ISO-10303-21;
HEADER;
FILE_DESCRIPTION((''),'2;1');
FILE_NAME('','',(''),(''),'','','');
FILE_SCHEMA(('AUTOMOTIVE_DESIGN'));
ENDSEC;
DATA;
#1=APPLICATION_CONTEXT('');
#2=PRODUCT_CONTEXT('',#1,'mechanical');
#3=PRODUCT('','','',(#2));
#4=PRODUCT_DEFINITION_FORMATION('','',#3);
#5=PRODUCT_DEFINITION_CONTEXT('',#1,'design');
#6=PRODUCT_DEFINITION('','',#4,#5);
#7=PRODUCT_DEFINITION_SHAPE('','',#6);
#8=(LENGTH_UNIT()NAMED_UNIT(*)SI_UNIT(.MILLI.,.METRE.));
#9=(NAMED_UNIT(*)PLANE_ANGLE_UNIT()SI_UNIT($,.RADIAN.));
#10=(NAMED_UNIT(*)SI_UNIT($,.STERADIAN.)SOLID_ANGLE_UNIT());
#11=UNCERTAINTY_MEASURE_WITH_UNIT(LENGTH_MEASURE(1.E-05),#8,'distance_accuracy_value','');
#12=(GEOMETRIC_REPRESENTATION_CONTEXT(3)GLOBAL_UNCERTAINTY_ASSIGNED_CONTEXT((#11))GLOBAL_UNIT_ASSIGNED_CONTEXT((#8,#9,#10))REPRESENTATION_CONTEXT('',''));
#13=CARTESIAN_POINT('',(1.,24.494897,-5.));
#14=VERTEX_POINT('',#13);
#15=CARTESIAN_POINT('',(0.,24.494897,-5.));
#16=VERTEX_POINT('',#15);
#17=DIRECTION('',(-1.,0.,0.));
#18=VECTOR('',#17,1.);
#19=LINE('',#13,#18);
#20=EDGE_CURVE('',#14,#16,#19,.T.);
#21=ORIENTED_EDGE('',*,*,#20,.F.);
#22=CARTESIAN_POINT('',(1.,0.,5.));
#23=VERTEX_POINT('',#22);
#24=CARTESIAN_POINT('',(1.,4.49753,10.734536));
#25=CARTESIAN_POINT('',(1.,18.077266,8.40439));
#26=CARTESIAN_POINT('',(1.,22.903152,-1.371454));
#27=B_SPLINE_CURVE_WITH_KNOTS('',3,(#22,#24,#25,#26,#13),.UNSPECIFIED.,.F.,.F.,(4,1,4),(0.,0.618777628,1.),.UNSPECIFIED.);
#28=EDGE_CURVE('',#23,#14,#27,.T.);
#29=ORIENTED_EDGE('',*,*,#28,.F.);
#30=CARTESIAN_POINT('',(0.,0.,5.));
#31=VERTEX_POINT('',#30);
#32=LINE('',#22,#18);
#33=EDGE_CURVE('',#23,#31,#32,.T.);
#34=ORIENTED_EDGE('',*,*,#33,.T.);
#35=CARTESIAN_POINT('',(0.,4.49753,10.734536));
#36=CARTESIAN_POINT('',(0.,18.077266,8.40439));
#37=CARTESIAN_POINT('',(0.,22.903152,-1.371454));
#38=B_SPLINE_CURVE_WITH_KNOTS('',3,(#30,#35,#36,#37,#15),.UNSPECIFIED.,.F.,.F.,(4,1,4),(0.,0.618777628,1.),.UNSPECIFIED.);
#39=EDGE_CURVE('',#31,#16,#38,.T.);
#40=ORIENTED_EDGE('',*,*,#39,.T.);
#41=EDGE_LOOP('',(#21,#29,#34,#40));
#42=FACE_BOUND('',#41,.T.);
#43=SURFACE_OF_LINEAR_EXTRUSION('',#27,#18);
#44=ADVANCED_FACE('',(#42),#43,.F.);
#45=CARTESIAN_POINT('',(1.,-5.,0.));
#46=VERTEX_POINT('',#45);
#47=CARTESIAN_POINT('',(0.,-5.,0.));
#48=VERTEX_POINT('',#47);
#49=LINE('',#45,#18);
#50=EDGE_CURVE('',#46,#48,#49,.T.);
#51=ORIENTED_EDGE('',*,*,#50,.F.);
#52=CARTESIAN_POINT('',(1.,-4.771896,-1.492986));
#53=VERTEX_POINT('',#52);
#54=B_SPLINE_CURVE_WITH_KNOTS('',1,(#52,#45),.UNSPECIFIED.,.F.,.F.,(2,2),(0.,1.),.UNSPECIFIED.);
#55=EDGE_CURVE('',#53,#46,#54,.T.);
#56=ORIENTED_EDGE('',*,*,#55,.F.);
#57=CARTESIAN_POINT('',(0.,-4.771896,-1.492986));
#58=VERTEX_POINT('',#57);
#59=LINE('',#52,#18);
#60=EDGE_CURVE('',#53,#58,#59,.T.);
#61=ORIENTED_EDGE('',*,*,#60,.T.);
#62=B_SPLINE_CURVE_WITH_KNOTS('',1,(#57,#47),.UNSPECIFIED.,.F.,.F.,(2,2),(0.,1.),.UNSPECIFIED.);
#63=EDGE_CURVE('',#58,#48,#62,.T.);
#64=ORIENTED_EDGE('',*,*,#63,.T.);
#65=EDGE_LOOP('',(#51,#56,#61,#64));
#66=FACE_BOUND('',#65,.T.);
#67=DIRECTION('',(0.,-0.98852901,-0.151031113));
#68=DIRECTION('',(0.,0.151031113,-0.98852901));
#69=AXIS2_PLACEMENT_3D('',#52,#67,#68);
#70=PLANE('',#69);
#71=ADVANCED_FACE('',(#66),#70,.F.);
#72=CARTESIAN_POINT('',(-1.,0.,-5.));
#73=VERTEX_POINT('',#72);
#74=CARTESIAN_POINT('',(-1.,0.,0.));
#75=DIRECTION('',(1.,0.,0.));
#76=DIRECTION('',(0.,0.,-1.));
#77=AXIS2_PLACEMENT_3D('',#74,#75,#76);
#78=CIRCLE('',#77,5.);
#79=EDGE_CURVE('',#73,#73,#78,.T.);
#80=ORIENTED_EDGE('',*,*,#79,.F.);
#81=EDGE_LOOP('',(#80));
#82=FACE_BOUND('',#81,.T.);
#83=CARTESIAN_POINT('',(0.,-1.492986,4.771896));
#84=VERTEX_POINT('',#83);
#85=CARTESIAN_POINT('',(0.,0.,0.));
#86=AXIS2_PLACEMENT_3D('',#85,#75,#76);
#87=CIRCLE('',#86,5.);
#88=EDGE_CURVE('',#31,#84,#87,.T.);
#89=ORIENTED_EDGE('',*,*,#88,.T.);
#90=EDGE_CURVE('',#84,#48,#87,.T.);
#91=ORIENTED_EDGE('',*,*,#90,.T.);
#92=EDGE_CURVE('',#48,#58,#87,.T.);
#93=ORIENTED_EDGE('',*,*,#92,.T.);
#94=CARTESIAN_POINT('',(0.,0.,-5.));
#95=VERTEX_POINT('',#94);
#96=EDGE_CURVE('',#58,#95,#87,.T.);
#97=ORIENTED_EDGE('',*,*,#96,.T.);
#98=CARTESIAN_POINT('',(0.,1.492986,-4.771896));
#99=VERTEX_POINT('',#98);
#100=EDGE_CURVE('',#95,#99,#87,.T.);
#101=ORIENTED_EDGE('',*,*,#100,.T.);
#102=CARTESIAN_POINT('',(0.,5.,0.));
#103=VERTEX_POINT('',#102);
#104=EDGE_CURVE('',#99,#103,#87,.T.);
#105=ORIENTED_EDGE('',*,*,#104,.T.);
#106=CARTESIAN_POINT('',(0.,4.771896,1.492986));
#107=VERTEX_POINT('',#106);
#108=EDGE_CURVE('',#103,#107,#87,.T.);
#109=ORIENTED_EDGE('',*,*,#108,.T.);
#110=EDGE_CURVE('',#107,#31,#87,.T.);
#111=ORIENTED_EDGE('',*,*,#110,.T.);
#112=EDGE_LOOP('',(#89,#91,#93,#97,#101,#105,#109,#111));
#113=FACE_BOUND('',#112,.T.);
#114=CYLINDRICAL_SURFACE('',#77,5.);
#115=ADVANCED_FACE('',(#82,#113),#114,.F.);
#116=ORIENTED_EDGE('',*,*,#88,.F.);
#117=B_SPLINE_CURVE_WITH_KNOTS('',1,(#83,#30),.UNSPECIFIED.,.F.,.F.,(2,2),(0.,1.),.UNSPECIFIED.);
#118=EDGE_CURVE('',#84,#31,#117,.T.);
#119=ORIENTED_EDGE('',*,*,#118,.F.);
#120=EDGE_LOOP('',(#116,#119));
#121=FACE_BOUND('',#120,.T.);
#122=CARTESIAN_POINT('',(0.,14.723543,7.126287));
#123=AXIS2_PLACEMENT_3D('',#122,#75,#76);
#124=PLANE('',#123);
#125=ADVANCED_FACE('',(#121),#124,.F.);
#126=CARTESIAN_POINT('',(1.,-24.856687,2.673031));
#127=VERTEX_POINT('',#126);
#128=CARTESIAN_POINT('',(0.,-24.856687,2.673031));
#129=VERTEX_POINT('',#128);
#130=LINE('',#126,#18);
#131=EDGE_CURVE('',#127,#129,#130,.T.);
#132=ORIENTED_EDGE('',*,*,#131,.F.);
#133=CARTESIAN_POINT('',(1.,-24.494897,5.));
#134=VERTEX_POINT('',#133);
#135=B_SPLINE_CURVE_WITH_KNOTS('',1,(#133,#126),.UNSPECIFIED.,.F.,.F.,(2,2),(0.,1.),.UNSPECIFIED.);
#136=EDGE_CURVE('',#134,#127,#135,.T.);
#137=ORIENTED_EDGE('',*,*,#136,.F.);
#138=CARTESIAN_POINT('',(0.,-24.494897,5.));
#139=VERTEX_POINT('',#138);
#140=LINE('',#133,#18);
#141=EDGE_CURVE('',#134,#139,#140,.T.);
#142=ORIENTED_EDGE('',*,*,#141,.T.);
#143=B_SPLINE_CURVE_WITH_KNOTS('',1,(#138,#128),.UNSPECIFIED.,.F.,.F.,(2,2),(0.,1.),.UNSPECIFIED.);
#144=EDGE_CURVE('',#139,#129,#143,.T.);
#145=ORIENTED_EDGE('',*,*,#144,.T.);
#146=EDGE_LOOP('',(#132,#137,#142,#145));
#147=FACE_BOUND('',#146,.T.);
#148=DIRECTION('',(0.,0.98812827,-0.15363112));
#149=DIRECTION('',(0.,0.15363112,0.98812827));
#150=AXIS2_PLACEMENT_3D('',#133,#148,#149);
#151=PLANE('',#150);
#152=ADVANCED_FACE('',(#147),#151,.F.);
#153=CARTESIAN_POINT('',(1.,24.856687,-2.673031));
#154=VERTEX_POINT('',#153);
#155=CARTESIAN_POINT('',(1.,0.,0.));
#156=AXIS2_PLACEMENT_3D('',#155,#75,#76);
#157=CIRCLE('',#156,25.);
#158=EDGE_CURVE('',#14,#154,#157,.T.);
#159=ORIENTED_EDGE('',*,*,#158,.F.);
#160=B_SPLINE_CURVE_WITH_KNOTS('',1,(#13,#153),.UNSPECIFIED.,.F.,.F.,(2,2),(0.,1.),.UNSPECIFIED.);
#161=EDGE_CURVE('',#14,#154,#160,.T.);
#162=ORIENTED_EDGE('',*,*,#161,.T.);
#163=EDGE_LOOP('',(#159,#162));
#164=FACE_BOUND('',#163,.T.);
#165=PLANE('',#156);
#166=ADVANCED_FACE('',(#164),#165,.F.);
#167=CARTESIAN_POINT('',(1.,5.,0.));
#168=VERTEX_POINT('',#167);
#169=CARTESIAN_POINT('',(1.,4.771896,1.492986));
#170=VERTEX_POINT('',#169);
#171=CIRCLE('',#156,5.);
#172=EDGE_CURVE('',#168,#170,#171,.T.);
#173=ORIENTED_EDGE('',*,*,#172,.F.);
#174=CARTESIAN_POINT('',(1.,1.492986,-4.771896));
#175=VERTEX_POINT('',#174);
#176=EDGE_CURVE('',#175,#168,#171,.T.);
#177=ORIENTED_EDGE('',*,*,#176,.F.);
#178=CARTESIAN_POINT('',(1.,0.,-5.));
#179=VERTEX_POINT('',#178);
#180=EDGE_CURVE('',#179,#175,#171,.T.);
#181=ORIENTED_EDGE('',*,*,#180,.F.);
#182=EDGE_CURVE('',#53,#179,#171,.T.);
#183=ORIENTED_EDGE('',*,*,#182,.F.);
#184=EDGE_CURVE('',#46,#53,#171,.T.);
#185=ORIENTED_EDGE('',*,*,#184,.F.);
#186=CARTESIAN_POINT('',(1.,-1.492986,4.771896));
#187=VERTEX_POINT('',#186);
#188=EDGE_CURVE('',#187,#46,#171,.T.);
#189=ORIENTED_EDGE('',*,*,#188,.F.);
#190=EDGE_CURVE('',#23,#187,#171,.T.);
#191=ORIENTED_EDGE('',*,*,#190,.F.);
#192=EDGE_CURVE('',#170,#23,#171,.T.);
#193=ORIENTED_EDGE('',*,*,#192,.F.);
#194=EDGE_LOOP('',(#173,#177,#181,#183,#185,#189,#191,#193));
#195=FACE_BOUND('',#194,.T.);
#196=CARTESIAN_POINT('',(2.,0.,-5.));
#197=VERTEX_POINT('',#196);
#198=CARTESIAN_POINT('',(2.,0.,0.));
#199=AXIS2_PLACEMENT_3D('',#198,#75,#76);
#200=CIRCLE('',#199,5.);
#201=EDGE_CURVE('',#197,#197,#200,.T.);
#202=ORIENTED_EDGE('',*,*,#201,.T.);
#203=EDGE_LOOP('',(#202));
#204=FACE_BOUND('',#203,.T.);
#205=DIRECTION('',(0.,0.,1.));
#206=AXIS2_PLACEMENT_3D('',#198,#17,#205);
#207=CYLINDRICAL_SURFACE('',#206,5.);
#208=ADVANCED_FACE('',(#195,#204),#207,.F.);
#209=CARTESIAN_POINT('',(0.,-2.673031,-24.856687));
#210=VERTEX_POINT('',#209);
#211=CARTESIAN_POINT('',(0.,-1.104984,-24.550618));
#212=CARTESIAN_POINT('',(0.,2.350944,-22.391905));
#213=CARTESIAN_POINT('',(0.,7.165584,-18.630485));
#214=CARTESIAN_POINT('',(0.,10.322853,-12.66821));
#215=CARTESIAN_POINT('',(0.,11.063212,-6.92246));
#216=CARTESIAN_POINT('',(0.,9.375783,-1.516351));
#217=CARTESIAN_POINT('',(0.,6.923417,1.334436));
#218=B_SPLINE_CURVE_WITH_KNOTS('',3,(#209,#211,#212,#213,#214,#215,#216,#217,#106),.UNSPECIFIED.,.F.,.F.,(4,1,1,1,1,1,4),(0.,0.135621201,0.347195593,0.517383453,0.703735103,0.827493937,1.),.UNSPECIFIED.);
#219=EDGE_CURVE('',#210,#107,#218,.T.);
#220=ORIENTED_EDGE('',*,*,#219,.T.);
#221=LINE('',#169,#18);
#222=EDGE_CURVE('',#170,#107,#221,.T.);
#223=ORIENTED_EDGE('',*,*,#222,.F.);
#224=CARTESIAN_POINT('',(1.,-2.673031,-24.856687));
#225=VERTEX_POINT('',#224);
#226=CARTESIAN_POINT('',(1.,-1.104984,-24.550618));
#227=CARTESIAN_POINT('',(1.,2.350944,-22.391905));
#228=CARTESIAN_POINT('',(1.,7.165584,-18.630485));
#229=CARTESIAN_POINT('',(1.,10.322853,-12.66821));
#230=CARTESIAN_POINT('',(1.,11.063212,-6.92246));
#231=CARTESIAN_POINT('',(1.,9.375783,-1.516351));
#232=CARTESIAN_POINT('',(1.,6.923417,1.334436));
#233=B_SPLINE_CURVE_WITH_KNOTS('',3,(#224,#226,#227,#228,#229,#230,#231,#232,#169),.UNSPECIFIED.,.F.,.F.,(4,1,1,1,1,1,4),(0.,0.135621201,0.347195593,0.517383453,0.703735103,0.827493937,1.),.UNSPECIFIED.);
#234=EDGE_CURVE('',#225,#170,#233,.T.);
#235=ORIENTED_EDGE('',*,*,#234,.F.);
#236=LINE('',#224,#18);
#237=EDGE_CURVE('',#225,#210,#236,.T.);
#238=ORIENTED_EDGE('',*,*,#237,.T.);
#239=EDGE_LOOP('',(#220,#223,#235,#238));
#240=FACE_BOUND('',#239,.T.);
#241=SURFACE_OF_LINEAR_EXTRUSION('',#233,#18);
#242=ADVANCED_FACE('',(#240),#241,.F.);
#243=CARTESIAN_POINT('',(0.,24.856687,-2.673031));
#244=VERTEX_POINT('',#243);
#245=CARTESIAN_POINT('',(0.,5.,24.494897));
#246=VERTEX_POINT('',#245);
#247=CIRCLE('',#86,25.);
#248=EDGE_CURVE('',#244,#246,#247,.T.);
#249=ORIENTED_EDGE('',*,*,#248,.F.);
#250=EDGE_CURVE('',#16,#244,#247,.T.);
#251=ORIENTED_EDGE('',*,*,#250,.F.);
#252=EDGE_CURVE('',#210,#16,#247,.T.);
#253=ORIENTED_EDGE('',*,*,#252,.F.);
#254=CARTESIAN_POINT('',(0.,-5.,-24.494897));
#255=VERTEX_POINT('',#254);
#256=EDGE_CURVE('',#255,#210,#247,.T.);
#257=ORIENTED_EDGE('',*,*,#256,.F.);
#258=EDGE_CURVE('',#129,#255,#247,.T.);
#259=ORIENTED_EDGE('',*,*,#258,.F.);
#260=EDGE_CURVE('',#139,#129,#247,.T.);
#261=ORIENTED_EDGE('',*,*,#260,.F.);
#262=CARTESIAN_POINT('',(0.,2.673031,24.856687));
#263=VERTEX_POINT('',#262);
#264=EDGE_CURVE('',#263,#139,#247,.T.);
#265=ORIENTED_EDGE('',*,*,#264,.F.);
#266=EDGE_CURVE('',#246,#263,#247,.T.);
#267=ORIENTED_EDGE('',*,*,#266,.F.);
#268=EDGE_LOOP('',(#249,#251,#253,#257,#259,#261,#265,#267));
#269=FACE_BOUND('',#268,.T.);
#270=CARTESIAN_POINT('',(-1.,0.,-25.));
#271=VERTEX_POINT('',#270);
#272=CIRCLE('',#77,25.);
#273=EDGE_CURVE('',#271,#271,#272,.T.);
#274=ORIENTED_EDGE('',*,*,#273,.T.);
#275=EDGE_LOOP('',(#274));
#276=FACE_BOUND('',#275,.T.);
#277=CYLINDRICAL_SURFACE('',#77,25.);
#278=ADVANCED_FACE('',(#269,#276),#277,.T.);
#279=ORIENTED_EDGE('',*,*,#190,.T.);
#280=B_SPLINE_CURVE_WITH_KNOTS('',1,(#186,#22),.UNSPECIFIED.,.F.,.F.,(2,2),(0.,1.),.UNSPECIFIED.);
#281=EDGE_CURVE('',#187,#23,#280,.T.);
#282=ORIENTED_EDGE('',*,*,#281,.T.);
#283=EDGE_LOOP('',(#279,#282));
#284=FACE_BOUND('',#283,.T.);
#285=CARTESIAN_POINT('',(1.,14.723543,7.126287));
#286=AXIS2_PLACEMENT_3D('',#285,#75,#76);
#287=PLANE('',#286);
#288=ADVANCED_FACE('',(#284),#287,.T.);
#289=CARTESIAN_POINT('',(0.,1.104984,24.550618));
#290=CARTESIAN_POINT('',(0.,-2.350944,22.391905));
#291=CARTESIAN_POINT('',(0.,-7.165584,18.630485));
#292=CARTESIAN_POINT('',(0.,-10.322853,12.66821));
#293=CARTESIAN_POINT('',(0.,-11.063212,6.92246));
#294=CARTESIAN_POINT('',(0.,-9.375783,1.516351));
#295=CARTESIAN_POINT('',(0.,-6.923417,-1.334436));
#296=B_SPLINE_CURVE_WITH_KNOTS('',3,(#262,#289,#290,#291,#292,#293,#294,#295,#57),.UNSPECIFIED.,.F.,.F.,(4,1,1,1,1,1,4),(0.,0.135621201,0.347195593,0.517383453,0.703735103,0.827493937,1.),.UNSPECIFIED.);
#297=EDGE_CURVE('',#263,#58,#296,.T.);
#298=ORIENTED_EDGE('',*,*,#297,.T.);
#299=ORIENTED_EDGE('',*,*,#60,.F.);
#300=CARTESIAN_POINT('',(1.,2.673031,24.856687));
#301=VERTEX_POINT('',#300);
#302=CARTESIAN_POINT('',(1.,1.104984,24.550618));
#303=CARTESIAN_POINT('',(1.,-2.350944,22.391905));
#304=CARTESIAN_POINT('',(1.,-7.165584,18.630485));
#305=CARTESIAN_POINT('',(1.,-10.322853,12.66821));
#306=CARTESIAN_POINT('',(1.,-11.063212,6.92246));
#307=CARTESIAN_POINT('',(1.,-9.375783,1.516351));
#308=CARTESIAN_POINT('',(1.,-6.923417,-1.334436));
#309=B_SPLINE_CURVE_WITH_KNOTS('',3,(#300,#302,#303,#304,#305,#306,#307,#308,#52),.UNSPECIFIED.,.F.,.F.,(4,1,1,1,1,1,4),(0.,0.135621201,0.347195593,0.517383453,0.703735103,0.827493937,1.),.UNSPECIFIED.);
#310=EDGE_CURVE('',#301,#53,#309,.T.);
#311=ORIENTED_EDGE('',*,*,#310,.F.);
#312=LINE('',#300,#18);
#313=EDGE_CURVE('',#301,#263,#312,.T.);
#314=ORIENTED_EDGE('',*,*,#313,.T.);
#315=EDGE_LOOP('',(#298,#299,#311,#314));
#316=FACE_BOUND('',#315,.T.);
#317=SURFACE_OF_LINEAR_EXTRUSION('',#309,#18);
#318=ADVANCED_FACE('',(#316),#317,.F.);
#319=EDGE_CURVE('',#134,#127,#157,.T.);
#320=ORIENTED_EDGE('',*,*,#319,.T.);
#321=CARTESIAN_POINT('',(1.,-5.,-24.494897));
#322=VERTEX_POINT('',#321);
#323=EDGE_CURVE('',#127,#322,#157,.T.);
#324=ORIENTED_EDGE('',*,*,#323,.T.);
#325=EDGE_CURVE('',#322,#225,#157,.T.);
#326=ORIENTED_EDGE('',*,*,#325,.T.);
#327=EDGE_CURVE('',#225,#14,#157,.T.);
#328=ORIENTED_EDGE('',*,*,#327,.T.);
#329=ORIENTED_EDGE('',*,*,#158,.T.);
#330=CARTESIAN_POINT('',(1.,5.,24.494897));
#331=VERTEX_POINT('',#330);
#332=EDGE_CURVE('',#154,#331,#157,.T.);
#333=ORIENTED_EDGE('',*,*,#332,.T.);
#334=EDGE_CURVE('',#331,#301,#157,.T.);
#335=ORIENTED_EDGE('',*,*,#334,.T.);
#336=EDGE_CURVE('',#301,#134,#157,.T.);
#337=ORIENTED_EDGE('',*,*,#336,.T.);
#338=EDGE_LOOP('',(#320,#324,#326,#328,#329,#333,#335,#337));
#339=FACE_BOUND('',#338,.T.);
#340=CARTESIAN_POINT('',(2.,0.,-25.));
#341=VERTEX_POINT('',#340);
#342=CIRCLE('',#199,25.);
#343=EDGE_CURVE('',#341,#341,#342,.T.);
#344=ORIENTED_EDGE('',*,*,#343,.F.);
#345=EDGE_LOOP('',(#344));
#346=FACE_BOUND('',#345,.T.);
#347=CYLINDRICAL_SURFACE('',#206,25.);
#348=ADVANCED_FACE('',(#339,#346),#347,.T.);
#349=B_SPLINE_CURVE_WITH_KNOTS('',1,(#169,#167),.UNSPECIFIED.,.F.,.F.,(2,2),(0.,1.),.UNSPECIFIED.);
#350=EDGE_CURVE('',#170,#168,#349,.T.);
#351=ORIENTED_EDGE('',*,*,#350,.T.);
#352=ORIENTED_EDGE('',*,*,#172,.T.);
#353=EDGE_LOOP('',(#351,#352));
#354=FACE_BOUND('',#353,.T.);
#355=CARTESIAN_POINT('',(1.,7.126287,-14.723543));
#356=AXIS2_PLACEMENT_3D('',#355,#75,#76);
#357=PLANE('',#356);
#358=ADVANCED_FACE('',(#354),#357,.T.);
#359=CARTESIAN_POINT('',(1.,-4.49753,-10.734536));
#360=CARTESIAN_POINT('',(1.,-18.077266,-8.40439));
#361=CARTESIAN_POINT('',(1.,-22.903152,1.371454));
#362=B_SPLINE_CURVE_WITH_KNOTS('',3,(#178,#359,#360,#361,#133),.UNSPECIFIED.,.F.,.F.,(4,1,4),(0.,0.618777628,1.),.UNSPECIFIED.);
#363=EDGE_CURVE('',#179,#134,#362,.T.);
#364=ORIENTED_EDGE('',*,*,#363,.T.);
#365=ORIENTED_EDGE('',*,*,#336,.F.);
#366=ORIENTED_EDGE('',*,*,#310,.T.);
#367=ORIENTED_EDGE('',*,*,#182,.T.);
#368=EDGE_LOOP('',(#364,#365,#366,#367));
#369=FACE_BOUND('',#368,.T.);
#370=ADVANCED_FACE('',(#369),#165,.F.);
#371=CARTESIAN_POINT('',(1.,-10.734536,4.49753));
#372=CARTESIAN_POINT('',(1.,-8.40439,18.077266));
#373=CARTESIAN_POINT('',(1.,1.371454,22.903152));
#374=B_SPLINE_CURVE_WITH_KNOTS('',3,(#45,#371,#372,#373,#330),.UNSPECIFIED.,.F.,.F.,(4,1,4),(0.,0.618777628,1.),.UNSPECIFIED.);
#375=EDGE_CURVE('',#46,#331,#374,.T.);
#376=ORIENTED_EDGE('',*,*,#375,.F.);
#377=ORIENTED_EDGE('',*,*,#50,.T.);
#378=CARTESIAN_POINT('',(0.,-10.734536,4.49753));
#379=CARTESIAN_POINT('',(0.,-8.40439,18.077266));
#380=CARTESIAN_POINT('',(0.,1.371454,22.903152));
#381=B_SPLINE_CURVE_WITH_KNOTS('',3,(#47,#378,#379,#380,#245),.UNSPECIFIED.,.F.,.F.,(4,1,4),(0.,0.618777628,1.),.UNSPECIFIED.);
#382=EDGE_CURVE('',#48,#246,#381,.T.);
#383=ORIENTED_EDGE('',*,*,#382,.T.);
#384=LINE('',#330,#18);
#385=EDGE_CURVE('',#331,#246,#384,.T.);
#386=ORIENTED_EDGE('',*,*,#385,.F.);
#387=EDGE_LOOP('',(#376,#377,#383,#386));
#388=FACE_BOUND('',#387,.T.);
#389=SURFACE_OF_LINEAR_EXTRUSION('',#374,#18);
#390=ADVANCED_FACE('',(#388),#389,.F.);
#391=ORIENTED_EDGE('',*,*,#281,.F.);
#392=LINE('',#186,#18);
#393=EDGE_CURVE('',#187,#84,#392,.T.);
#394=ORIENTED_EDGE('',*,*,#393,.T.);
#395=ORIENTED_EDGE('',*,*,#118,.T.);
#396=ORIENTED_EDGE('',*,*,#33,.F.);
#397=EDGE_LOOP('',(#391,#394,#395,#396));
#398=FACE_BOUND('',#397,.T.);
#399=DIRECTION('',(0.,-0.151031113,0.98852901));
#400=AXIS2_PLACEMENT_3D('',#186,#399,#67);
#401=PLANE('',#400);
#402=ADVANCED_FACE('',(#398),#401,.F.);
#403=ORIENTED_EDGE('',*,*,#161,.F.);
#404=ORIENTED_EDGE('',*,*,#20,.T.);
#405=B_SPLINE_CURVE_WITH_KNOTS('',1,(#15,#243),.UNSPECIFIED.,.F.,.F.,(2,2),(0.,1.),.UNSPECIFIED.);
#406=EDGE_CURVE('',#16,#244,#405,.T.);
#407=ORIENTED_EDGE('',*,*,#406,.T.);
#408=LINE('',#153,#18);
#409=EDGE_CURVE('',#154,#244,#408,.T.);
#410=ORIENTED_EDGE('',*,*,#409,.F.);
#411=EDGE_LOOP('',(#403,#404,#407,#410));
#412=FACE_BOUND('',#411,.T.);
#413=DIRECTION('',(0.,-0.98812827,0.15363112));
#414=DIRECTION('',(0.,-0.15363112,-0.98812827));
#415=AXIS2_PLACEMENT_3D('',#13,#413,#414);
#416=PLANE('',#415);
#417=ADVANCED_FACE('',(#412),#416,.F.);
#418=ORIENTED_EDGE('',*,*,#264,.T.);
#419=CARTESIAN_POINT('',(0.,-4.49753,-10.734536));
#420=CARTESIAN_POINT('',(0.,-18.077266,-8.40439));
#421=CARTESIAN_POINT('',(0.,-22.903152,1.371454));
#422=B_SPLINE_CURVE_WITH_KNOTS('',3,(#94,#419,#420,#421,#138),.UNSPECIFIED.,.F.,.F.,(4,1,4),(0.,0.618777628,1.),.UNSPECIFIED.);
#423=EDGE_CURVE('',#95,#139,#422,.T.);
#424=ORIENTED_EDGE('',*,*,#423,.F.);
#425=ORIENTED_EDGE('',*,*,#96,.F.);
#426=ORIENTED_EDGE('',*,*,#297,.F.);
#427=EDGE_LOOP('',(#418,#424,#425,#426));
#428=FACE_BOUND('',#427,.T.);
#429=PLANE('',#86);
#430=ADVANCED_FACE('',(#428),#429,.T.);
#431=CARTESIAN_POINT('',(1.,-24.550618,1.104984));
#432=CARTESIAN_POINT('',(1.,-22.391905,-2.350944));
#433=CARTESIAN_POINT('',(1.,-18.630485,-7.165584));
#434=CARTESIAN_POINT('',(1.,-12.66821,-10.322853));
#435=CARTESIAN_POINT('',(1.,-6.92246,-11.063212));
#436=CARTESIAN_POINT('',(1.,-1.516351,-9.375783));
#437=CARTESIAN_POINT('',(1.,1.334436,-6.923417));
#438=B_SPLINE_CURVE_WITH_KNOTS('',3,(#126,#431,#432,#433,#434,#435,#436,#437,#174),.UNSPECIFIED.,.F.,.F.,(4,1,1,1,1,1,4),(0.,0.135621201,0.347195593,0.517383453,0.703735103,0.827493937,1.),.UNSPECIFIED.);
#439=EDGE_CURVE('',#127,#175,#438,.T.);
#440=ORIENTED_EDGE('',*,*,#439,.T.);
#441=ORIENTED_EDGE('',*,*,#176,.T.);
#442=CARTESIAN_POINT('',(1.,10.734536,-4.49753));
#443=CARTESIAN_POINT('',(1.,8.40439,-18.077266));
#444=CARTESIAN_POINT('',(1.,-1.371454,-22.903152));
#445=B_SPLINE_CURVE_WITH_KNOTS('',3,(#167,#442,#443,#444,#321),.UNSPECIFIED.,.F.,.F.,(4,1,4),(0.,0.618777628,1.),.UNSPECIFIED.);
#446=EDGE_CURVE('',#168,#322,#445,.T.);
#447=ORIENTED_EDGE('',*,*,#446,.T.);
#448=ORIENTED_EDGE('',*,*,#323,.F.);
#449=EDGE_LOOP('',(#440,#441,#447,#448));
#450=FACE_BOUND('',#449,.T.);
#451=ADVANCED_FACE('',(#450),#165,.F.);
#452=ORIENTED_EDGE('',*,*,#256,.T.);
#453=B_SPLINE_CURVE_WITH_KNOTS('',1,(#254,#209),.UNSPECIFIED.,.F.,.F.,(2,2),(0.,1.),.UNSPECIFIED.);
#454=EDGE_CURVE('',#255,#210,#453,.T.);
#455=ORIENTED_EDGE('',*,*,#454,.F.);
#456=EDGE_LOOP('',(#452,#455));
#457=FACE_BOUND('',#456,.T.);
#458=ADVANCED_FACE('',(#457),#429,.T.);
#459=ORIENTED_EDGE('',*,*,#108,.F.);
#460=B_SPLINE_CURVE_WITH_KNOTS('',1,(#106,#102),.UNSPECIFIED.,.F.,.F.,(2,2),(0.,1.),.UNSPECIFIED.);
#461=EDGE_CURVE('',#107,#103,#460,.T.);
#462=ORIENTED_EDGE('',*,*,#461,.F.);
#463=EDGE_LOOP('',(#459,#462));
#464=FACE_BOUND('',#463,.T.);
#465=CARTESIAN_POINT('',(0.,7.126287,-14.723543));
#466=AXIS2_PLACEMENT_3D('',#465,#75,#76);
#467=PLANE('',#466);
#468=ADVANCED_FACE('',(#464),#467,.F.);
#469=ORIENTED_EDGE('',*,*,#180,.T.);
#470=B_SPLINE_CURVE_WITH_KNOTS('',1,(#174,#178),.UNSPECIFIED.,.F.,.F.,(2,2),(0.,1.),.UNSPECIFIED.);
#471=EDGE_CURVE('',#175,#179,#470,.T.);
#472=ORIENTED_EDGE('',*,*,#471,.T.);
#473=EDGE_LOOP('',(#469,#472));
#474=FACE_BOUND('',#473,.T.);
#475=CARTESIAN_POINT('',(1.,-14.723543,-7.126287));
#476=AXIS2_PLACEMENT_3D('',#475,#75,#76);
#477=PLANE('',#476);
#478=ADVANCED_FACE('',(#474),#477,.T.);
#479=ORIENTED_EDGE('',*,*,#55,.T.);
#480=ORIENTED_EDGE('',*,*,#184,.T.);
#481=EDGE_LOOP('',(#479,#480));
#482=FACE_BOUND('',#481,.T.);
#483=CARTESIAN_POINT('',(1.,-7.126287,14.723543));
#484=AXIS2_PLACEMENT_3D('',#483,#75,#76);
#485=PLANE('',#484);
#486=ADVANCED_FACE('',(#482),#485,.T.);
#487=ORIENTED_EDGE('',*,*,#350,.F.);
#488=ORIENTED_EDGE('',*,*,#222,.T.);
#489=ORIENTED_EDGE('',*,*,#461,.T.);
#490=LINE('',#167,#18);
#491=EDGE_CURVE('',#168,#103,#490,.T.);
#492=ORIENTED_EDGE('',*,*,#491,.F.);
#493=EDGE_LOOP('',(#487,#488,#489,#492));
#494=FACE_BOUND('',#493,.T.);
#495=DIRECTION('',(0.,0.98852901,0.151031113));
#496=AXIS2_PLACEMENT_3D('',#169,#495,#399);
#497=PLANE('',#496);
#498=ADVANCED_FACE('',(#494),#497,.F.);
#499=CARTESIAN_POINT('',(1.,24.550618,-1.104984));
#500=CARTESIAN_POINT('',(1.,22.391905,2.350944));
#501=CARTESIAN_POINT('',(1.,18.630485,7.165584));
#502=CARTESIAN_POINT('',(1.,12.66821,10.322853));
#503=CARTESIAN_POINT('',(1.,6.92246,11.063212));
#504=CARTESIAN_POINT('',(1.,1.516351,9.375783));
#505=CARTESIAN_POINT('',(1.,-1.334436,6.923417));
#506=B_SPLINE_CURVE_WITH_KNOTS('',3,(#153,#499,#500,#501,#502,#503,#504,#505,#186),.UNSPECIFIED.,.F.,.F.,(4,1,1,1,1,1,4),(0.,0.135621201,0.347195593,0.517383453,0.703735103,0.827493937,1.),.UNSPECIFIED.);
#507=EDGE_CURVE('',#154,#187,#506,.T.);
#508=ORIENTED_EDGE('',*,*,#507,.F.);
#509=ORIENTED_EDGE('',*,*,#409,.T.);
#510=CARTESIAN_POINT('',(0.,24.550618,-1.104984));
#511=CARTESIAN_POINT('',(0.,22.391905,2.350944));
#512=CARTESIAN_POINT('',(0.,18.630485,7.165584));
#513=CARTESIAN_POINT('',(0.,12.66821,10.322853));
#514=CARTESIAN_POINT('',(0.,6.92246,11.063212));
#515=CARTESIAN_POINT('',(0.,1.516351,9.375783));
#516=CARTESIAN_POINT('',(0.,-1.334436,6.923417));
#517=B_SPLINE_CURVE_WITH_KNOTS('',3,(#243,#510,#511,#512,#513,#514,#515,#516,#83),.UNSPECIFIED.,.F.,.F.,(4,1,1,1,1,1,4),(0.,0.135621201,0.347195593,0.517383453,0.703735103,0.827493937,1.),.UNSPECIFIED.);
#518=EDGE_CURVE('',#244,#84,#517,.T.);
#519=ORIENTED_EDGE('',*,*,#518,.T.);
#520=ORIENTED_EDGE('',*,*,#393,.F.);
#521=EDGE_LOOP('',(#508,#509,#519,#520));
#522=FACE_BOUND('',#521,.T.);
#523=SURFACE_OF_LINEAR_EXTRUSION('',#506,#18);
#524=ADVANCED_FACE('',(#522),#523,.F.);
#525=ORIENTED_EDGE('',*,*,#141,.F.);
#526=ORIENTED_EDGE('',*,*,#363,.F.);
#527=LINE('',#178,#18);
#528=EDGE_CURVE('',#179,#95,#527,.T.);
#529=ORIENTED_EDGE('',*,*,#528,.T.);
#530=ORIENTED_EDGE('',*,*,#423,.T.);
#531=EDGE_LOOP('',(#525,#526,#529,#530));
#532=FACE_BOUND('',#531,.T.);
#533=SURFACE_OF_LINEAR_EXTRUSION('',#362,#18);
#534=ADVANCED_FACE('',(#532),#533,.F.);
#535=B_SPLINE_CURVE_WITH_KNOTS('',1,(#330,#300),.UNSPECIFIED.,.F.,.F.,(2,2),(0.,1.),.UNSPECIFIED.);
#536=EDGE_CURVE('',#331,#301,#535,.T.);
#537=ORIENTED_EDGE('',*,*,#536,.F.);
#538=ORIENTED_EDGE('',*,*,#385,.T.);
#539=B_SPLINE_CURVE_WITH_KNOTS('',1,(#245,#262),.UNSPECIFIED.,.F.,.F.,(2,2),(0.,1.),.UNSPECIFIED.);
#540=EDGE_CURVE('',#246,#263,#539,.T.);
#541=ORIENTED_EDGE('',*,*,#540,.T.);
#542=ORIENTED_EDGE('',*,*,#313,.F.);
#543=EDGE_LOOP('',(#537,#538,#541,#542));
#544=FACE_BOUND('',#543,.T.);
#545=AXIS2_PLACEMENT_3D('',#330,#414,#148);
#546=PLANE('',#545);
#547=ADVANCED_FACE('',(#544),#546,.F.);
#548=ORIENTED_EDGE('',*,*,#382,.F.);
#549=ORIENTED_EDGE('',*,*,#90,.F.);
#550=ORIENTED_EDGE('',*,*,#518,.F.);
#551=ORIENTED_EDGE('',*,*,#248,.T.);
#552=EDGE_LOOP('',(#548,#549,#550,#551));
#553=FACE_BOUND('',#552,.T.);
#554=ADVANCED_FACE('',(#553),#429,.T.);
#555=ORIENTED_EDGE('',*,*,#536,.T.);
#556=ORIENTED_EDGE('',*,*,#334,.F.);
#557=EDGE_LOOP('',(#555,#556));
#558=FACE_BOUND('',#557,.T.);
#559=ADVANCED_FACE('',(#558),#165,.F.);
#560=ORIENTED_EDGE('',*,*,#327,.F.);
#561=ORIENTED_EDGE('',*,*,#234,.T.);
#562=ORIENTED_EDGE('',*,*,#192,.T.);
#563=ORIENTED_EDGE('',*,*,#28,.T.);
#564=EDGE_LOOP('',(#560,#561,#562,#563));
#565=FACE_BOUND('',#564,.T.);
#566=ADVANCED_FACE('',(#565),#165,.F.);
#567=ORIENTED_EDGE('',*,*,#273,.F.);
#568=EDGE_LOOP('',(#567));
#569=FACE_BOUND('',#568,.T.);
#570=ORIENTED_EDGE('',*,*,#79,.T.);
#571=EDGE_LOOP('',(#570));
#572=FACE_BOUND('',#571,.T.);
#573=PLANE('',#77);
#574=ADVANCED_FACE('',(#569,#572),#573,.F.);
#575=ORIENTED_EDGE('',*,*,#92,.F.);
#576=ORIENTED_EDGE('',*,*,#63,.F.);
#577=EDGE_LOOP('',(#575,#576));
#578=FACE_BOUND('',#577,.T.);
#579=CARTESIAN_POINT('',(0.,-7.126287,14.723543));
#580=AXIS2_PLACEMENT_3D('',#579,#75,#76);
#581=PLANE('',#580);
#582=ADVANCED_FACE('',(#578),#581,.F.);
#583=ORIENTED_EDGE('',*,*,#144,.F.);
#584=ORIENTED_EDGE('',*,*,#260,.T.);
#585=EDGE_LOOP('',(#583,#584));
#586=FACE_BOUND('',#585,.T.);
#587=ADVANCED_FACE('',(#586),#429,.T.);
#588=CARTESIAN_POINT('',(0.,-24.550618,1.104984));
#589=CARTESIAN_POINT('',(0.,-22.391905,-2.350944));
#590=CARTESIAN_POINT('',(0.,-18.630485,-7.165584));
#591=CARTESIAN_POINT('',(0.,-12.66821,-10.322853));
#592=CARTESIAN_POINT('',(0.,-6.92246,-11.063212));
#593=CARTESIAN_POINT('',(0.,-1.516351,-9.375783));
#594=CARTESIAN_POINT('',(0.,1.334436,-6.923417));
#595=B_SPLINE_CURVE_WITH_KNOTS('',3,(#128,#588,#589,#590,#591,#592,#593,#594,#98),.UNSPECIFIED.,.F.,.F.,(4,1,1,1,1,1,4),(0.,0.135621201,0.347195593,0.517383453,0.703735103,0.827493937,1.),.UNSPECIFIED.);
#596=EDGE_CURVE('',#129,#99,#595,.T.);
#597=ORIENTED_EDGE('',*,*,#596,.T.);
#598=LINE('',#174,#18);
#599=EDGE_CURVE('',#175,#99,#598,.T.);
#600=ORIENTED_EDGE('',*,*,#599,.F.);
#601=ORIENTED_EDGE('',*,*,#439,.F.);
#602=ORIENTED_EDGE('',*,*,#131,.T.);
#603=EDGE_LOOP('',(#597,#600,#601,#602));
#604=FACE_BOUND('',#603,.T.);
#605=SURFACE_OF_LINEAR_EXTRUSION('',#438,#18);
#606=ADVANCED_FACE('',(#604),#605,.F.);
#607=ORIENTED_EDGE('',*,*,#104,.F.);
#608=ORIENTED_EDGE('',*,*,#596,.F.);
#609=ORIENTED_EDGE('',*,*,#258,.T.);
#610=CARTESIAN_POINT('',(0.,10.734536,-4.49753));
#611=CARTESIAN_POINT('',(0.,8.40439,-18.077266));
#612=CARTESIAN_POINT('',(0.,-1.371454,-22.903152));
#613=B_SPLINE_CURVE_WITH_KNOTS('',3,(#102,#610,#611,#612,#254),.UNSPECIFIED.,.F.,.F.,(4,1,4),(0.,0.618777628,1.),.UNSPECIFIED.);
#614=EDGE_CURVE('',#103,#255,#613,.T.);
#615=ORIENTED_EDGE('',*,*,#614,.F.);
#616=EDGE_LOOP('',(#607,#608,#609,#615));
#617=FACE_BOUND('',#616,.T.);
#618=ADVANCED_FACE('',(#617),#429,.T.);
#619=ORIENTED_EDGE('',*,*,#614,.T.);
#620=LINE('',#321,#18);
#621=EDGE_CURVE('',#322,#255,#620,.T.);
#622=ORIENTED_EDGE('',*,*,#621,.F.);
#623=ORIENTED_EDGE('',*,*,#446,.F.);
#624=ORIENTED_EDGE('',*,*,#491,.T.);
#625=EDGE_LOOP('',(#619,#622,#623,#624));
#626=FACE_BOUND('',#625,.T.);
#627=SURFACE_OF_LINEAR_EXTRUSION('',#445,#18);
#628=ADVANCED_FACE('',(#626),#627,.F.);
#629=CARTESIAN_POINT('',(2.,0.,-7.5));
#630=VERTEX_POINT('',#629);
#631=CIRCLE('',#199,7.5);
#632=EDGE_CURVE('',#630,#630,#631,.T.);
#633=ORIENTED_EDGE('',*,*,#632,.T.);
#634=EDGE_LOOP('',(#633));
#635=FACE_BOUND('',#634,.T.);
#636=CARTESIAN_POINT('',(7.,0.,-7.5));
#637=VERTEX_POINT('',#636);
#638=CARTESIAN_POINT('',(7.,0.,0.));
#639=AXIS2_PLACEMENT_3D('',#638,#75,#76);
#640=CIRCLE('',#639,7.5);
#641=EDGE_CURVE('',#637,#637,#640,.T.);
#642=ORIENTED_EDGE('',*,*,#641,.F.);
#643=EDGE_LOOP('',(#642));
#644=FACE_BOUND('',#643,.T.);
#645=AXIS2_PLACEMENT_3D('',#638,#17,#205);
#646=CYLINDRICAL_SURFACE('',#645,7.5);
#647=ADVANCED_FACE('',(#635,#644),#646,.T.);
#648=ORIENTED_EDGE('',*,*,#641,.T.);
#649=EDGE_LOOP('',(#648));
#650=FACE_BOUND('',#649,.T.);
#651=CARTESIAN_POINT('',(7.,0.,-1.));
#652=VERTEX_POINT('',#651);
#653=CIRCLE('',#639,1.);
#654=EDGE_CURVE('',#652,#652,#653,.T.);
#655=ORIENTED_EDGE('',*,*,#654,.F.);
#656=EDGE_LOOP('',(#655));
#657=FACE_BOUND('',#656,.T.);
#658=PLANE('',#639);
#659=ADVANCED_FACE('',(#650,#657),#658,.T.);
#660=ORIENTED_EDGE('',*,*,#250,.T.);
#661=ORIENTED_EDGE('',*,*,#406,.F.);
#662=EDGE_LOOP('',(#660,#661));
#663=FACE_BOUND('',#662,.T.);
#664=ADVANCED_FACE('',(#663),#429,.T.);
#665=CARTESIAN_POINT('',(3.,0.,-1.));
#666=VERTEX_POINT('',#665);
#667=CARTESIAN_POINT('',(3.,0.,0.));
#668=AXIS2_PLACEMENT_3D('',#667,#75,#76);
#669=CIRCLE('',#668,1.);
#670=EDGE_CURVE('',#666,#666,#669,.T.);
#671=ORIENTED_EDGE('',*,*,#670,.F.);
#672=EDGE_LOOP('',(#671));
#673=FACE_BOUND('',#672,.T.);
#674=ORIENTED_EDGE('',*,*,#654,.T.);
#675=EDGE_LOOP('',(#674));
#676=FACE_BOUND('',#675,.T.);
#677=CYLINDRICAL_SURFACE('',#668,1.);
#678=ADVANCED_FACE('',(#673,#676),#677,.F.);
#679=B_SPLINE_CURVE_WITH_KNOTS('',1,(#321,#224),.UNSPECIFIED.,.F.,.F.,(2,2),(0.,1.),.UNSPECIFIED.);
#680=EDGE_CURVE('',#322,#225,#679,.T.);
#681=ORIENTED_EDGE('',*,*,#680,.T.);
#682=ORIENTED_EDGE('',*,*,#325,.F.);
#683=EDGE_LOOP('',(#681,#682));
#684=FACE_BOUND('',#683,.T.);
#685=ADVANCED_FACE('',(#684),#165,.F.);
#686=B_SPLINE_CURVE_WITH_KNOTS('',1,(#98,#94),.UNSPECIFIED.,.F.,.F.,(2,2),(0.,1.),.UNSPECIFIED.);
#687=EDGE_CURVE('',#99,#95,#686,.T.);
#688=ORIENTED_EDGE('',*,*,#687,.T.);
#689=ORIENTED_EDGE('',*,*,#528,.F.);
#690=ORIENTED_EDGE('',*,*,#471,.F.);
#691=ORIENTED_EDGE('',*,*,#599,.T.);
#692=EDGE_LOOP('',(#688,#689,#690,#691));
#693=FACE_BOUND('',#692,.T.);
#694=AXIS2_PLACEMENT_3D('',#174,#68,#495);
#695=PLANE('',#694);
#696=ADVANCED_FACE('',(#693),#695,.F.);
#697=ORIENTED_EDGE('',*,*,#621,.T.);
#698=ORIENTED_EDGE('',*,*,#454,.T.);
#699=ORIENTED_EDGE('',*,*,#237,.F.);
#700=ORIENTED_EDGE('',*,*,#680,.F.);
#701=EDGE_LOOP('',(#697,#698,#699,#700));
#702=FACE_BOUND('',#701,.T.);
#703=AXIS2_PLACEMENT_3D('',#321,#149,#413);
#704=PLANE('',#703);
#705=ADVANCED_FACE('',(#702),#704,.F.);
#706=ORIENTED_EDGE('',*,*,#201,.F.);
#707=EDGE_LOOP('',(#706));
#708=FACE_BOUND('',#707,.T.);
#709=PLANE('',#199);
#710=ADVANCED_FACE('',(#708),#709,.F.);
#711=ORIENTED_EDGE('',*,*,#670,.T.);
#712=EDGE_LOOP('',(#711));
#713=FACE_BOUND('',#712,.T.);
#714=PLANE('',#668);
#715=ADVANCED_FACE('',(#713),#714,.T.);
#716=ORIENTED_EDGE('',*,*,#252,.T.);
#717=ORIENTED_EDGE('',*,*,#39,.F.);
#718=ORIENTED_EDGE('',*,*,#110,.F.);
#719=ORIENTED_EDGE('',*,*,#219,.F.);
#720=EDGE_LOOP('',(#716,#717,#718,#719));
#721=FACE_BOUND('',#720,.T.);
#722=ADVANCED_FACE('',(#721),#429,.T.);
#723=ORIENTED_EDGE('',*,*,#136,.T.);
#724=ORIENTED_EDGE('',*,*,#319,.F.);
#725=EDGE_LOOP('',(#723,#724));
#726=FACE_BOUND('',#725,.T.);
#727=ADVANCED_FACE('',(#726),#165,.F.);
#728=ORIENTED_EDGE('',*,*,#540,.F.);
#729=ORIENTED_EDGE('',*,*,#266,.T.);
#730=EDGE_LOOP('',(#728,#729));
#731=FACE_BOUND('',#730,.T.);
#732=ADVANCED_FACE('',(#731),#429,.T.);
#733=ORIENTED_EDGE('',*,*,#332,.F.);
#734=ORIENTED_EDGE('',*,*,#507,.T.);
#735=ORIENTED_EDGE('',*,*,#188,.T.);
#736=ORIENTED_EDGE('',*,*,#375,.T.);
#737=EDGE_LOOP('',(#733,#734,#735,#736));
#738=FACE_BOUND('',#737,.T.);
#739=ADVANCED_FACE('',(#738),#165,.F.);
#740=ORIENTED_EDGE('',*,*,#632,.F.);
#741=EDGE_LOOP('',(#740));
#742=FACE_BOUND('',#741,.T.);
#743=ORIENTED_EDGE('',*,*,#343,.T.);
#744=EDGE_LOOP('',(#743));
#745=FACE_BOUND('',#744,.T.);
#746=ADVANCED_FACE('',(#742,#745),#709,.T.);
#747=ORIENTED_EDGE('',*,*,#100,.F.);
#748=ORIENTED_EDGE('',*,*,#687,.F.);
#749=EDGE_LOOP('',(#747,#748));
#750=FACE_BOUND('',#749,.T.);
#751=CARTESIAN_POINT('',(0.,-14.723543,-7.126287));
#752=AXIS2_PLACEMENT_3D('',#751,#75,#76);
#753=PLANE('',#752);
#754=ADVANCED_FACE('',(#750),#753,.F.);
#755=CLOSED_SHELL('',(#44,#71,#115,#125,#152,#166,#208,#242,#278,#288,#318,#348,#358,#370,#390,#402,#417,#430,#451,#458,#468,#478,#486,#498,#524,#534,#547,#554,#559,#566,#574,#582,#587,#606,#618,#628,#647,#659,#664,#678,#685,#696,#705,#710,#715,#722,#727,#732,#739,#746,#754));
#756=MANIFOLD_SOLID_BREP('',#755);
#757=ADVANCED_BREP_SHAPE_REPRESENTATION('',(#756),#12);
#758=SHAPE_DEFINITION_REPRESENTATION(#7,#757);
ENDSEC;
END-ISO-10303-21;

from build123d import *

# Parameters (mm, degrees)
BOSS_EXTRUDE1_DEPTH   = 1
BOSS_EXTRUDE1_2_DEPTH = 1
BOSS_EXTRUDE1_3_DEPTH = 1
BOSS_EXTRUDE1_4_DEPTH = 1
SKETCH2_R             = 25
SKETCH2_R_2           = 5
BOSS_EXTRUDE2_DEPTH   = 1
BOSS_EXTRUDE6_START   = -1
SKETCH2_4_R           = 25
SKETCH2_4_R_2         = 5
BOSS_EXTRUDE6_DEPTH   = 1
SKETCH3_R             = 7.5
BOSS_EXTRUDE7_DEPTH   = 5
SKETCH4_R             = 1
CUT_EXTRUDE1_DEPTH    = 4


with BuildPart() as part:
    # Sketch1 → Boss-Extrude1 (new body)
    with BuildSketch(Plane(origin=(0, 0, 0), x_dir=(0, 0, -1), z_dir=(1, 0, 0))):
        with BuildLine():
            add(Edge.make_bspline(
                [(0, 5), (4.497529661, 10.734535644), (18.077265621, 8.404390401), (22.903151971, -1.371454076), (24.494897428, -5)],
                knots=[0, 0, 0, 0, 0.618777628, 1, 1, 1, 1], degree=3))
            add(Edge.make_bspline(
                [(24.494897428, -5), (24.856687291, -2.673031407)],
                knots=[0, 0, 1, 1], degree=1))
            add(Edge.make_bspline(
                [(-1.492986361, 4.77189603), (-1.334435901, 6.923416971), (1.516351493, 9.375782971), (6.922460383, 11.063211687), (12.668210337, 10.322852941), (18.630485351, 7.165584221), (22.391904574, 2.350944019), (24.550618301, -1.104983558), (24.856687291, -2.673031407)],
                knots=[0, 0, 0, 0, 0.172506063, 0.296264897, 0.482616547, 0.652804407, 0.864378799, 1, 1, 1, 1], degree=3))
            add(Edge.make_bspline(
                [(-1.492986361, 4.77189603), (0, 5)],
                knots=[0, 0, 1, 1], degree=1))
        make_face()
    extrude(amount=BOSS_EXTRUDE1_DEPTH)



with BuildPart() as body_2:
    # Sketch1 → Boss-Extrude1 2 (new body)
    with BuildSketch(Plane(origin=(0, 0, 0), x_dir=(0, 0, -1), z_dir=(1, 0, 0))):
        with BuildLine():
            add(Edge.make_bspline(
                [(4.77189603, 1.492986361), (6.923416971, 1.334435901), (9.375782971, -1.516351493), (11.063211687, -6.922460383), (10.322852941, -12.668210337), (7.165584221, -18.630485351), (2.350944019, -22.391904574), (-1.104983558, -24.550618301), (-2.673031407, -24.856687291)],
                knots=[0, 0, 0, 0, 0.172506063, 0.296264897, 0.482616547, 0.652804407, 0.864378799, 1, 1, 1, 1], degree=3))
            add(Edge.make_bspline(
                [(-5, -24.494897428), (-2.673031407, -24.856687291)],
                knots=[0, 0, 1, 1], degree=1))
            add(Edge.make_bspline(
                [(5, 0), (10.734535644, -4.497529661), (8.404390401, -18.077265621), (-1.371454076, -22.903151971), (-5, -24.494897428)],
                knots=[0, 0, 0, 0, 0.618777628, 1, 1, 1, 1], degree=3))
            add(Edge.make_bspline(
                [(4.77189603, 1.492986361), (5, 0)],
                knots=[0, 0, 1, 1], degree=1))
        make_face()
    extrude(amount=BOSS_EXTRUDE1_2_DEPTH)


with BuildPart() as body_3:
    # Sketch1 → Boss-Extrude1 3 (new body)
    with BuildSketch(Plane(origin=(0, 0, 0), x_dir=(0, 0, -1), z_dir=(1, 0, 0))):
        with BuildLine():
            add(Edge.make_bspline(
                [(1.492986361, -4.77189603), (1.334435901, -6.923416971), (-1.516351493, -9.375782971), (-6.922460383, -11.063211687), (-12.668210337, -10.322852941), (-18.630485351, -7.165584221), (-22.391904574, -2.350944019), (-24.550618301, 1.104983558), (-24.856687291, 2.673031407)],
                knots=[0, 0, 0, 0, 0.172506063, 0.296264897, 0.482616547, 0.652804407, 0.864378799, 1, 1, 1, 1], degree=3))
            add(Edge.make_bspline(
                [(-24.494897428, 5), (-24.856687291, 2.673031407)],
                knots=[0, 0, 1, 1], degree=1))
            add(Edge.make_bspline(
                [(0, -5), (-4.497529661, -10.734535644), (-18.077265621, -8.404390401), (-22.903151971, 1.371454076), (-24.494897428, 5)],
                knots=[0, 0, 0, 0, 0.618777628, 1, 1, 1, 1], degree=3))
            add(Edge.make_bspline(
                [(1.492986361, -4.77189603), (0, -5)],
                knots=[0, 0, 1, 1], degree=1))
        make_face()
    extrude(amount=BOSS_EXTRUDE1_3_DEPTH)


with BuildPart() as body_4:
    # Sketch1 → Boss-Extrude1 4 (new body)
    with BuildSketch(Plane(origin=(0, 0, 0), x_dir=(0, 0, -1), z_dir=(1, 0, 0))):
        with BuildLine():
            add(Edge.make_bspline(
                [(-4.77189603, -1.492986361), (-6.923416971, -1.334435901), (-9.375782971, 1.516351493), (-11.063211687, 6.922460383), (-10.322852941, 12.668210337), (-7.165584221, 18.630485351), (-2.350944019, 22.391904574), (1.104983558, 24.550618301), (2.673031407, 24.856687291)],
                knots=[0, 0, 0, 0, 0.172506063, 0.296264897, 0.482616547, 0.652804407, 0.864378799, 1, 1, 1, 1], degree=3))
            add(Edge.make_bspline(
                [(5, 24.494897428), (2.673031407, 24.856687291)],
                knots=[0, 0, 1, 1], degree=1))
            add(Edge.make_bspline(
                [(-5, 0), (-10.734535644, 4.497529661), (-8.404390401, 18.077265621), (1.371454076, 22.903151971), (5, 24.494897428)],
                knots=[0, 0, 0, 0, 0.618777628, 1, 1, 1, 1], degree=3))
            add(Edge.make_bspline(
                [(-4.77189603, -1.492986361), (-5, 0)],
                knots=[0, 0, 1, 1], degree=1))
        make_face()
    extrude(amount=BOSS_EXTRUDE1_4_DEPTH)


with BuildPart() as part_1:
    add(part.part)

    add(body_2.part)  # Boss-Extrude2 merges body 2

    add(body_3.part)  # Boss-Extrude2 merges body 3

    add(body_4.part)  # Boss-Extrude2 merges body 4
    # Sketch2 → Boss-Extrude2 (add)
    with BuildSketch(Plane(origin=(1, 0, 0), x_dir=(0, 0, -1), z_dir=(1, 0, 0))):
        Circle(SKETCH2_R)
        Circle(SKETCH2_R_2, mode=Mode.SUBTRACT)
    extrude(amount=BOSS_EXTRUDE2_DEPTH)

    # Sketch2<4> → Boss-Extrude6 (add)
    with BuildSketch(Plane(origin=(1, 0, 0), x_dir=(0, 0, -1), z_dir=(1, 0, 0)).offset(BOSS_EXTRUDE6_START)):
        Circle(SKETCH2_4_R)
        Circle(SKETCH2_4_R_2, mode=Mode.SUBTRACT)
    extrude(amount=-BOSS_EXTRUDE6_DEPTH)

    # Sketch3 → Boss-Extrude7 (add)
    with BuildSketch(Plane(origin=(2, 0, 0), x_dir=(0, 0, -1), z_dir=(1, 0, 0))):
        Circle(SKETCH3_R)
    extrude(amount=BOSS_EXTRUDE7_DEPTH)

    # Sketch4 → Cut-Extrude1 (cut)
    with BuildSketch(Plane(origin=(7, 0, 0), x_dir=(0, 0, -1), z_dir=(1, 0, 0))):
        Circle(SKETCH4_R)
    extrude(amount=-CUT_EXTRUDE1_DEPTH, mode=Mode.SUBTRACT)


solid = part_1.part
